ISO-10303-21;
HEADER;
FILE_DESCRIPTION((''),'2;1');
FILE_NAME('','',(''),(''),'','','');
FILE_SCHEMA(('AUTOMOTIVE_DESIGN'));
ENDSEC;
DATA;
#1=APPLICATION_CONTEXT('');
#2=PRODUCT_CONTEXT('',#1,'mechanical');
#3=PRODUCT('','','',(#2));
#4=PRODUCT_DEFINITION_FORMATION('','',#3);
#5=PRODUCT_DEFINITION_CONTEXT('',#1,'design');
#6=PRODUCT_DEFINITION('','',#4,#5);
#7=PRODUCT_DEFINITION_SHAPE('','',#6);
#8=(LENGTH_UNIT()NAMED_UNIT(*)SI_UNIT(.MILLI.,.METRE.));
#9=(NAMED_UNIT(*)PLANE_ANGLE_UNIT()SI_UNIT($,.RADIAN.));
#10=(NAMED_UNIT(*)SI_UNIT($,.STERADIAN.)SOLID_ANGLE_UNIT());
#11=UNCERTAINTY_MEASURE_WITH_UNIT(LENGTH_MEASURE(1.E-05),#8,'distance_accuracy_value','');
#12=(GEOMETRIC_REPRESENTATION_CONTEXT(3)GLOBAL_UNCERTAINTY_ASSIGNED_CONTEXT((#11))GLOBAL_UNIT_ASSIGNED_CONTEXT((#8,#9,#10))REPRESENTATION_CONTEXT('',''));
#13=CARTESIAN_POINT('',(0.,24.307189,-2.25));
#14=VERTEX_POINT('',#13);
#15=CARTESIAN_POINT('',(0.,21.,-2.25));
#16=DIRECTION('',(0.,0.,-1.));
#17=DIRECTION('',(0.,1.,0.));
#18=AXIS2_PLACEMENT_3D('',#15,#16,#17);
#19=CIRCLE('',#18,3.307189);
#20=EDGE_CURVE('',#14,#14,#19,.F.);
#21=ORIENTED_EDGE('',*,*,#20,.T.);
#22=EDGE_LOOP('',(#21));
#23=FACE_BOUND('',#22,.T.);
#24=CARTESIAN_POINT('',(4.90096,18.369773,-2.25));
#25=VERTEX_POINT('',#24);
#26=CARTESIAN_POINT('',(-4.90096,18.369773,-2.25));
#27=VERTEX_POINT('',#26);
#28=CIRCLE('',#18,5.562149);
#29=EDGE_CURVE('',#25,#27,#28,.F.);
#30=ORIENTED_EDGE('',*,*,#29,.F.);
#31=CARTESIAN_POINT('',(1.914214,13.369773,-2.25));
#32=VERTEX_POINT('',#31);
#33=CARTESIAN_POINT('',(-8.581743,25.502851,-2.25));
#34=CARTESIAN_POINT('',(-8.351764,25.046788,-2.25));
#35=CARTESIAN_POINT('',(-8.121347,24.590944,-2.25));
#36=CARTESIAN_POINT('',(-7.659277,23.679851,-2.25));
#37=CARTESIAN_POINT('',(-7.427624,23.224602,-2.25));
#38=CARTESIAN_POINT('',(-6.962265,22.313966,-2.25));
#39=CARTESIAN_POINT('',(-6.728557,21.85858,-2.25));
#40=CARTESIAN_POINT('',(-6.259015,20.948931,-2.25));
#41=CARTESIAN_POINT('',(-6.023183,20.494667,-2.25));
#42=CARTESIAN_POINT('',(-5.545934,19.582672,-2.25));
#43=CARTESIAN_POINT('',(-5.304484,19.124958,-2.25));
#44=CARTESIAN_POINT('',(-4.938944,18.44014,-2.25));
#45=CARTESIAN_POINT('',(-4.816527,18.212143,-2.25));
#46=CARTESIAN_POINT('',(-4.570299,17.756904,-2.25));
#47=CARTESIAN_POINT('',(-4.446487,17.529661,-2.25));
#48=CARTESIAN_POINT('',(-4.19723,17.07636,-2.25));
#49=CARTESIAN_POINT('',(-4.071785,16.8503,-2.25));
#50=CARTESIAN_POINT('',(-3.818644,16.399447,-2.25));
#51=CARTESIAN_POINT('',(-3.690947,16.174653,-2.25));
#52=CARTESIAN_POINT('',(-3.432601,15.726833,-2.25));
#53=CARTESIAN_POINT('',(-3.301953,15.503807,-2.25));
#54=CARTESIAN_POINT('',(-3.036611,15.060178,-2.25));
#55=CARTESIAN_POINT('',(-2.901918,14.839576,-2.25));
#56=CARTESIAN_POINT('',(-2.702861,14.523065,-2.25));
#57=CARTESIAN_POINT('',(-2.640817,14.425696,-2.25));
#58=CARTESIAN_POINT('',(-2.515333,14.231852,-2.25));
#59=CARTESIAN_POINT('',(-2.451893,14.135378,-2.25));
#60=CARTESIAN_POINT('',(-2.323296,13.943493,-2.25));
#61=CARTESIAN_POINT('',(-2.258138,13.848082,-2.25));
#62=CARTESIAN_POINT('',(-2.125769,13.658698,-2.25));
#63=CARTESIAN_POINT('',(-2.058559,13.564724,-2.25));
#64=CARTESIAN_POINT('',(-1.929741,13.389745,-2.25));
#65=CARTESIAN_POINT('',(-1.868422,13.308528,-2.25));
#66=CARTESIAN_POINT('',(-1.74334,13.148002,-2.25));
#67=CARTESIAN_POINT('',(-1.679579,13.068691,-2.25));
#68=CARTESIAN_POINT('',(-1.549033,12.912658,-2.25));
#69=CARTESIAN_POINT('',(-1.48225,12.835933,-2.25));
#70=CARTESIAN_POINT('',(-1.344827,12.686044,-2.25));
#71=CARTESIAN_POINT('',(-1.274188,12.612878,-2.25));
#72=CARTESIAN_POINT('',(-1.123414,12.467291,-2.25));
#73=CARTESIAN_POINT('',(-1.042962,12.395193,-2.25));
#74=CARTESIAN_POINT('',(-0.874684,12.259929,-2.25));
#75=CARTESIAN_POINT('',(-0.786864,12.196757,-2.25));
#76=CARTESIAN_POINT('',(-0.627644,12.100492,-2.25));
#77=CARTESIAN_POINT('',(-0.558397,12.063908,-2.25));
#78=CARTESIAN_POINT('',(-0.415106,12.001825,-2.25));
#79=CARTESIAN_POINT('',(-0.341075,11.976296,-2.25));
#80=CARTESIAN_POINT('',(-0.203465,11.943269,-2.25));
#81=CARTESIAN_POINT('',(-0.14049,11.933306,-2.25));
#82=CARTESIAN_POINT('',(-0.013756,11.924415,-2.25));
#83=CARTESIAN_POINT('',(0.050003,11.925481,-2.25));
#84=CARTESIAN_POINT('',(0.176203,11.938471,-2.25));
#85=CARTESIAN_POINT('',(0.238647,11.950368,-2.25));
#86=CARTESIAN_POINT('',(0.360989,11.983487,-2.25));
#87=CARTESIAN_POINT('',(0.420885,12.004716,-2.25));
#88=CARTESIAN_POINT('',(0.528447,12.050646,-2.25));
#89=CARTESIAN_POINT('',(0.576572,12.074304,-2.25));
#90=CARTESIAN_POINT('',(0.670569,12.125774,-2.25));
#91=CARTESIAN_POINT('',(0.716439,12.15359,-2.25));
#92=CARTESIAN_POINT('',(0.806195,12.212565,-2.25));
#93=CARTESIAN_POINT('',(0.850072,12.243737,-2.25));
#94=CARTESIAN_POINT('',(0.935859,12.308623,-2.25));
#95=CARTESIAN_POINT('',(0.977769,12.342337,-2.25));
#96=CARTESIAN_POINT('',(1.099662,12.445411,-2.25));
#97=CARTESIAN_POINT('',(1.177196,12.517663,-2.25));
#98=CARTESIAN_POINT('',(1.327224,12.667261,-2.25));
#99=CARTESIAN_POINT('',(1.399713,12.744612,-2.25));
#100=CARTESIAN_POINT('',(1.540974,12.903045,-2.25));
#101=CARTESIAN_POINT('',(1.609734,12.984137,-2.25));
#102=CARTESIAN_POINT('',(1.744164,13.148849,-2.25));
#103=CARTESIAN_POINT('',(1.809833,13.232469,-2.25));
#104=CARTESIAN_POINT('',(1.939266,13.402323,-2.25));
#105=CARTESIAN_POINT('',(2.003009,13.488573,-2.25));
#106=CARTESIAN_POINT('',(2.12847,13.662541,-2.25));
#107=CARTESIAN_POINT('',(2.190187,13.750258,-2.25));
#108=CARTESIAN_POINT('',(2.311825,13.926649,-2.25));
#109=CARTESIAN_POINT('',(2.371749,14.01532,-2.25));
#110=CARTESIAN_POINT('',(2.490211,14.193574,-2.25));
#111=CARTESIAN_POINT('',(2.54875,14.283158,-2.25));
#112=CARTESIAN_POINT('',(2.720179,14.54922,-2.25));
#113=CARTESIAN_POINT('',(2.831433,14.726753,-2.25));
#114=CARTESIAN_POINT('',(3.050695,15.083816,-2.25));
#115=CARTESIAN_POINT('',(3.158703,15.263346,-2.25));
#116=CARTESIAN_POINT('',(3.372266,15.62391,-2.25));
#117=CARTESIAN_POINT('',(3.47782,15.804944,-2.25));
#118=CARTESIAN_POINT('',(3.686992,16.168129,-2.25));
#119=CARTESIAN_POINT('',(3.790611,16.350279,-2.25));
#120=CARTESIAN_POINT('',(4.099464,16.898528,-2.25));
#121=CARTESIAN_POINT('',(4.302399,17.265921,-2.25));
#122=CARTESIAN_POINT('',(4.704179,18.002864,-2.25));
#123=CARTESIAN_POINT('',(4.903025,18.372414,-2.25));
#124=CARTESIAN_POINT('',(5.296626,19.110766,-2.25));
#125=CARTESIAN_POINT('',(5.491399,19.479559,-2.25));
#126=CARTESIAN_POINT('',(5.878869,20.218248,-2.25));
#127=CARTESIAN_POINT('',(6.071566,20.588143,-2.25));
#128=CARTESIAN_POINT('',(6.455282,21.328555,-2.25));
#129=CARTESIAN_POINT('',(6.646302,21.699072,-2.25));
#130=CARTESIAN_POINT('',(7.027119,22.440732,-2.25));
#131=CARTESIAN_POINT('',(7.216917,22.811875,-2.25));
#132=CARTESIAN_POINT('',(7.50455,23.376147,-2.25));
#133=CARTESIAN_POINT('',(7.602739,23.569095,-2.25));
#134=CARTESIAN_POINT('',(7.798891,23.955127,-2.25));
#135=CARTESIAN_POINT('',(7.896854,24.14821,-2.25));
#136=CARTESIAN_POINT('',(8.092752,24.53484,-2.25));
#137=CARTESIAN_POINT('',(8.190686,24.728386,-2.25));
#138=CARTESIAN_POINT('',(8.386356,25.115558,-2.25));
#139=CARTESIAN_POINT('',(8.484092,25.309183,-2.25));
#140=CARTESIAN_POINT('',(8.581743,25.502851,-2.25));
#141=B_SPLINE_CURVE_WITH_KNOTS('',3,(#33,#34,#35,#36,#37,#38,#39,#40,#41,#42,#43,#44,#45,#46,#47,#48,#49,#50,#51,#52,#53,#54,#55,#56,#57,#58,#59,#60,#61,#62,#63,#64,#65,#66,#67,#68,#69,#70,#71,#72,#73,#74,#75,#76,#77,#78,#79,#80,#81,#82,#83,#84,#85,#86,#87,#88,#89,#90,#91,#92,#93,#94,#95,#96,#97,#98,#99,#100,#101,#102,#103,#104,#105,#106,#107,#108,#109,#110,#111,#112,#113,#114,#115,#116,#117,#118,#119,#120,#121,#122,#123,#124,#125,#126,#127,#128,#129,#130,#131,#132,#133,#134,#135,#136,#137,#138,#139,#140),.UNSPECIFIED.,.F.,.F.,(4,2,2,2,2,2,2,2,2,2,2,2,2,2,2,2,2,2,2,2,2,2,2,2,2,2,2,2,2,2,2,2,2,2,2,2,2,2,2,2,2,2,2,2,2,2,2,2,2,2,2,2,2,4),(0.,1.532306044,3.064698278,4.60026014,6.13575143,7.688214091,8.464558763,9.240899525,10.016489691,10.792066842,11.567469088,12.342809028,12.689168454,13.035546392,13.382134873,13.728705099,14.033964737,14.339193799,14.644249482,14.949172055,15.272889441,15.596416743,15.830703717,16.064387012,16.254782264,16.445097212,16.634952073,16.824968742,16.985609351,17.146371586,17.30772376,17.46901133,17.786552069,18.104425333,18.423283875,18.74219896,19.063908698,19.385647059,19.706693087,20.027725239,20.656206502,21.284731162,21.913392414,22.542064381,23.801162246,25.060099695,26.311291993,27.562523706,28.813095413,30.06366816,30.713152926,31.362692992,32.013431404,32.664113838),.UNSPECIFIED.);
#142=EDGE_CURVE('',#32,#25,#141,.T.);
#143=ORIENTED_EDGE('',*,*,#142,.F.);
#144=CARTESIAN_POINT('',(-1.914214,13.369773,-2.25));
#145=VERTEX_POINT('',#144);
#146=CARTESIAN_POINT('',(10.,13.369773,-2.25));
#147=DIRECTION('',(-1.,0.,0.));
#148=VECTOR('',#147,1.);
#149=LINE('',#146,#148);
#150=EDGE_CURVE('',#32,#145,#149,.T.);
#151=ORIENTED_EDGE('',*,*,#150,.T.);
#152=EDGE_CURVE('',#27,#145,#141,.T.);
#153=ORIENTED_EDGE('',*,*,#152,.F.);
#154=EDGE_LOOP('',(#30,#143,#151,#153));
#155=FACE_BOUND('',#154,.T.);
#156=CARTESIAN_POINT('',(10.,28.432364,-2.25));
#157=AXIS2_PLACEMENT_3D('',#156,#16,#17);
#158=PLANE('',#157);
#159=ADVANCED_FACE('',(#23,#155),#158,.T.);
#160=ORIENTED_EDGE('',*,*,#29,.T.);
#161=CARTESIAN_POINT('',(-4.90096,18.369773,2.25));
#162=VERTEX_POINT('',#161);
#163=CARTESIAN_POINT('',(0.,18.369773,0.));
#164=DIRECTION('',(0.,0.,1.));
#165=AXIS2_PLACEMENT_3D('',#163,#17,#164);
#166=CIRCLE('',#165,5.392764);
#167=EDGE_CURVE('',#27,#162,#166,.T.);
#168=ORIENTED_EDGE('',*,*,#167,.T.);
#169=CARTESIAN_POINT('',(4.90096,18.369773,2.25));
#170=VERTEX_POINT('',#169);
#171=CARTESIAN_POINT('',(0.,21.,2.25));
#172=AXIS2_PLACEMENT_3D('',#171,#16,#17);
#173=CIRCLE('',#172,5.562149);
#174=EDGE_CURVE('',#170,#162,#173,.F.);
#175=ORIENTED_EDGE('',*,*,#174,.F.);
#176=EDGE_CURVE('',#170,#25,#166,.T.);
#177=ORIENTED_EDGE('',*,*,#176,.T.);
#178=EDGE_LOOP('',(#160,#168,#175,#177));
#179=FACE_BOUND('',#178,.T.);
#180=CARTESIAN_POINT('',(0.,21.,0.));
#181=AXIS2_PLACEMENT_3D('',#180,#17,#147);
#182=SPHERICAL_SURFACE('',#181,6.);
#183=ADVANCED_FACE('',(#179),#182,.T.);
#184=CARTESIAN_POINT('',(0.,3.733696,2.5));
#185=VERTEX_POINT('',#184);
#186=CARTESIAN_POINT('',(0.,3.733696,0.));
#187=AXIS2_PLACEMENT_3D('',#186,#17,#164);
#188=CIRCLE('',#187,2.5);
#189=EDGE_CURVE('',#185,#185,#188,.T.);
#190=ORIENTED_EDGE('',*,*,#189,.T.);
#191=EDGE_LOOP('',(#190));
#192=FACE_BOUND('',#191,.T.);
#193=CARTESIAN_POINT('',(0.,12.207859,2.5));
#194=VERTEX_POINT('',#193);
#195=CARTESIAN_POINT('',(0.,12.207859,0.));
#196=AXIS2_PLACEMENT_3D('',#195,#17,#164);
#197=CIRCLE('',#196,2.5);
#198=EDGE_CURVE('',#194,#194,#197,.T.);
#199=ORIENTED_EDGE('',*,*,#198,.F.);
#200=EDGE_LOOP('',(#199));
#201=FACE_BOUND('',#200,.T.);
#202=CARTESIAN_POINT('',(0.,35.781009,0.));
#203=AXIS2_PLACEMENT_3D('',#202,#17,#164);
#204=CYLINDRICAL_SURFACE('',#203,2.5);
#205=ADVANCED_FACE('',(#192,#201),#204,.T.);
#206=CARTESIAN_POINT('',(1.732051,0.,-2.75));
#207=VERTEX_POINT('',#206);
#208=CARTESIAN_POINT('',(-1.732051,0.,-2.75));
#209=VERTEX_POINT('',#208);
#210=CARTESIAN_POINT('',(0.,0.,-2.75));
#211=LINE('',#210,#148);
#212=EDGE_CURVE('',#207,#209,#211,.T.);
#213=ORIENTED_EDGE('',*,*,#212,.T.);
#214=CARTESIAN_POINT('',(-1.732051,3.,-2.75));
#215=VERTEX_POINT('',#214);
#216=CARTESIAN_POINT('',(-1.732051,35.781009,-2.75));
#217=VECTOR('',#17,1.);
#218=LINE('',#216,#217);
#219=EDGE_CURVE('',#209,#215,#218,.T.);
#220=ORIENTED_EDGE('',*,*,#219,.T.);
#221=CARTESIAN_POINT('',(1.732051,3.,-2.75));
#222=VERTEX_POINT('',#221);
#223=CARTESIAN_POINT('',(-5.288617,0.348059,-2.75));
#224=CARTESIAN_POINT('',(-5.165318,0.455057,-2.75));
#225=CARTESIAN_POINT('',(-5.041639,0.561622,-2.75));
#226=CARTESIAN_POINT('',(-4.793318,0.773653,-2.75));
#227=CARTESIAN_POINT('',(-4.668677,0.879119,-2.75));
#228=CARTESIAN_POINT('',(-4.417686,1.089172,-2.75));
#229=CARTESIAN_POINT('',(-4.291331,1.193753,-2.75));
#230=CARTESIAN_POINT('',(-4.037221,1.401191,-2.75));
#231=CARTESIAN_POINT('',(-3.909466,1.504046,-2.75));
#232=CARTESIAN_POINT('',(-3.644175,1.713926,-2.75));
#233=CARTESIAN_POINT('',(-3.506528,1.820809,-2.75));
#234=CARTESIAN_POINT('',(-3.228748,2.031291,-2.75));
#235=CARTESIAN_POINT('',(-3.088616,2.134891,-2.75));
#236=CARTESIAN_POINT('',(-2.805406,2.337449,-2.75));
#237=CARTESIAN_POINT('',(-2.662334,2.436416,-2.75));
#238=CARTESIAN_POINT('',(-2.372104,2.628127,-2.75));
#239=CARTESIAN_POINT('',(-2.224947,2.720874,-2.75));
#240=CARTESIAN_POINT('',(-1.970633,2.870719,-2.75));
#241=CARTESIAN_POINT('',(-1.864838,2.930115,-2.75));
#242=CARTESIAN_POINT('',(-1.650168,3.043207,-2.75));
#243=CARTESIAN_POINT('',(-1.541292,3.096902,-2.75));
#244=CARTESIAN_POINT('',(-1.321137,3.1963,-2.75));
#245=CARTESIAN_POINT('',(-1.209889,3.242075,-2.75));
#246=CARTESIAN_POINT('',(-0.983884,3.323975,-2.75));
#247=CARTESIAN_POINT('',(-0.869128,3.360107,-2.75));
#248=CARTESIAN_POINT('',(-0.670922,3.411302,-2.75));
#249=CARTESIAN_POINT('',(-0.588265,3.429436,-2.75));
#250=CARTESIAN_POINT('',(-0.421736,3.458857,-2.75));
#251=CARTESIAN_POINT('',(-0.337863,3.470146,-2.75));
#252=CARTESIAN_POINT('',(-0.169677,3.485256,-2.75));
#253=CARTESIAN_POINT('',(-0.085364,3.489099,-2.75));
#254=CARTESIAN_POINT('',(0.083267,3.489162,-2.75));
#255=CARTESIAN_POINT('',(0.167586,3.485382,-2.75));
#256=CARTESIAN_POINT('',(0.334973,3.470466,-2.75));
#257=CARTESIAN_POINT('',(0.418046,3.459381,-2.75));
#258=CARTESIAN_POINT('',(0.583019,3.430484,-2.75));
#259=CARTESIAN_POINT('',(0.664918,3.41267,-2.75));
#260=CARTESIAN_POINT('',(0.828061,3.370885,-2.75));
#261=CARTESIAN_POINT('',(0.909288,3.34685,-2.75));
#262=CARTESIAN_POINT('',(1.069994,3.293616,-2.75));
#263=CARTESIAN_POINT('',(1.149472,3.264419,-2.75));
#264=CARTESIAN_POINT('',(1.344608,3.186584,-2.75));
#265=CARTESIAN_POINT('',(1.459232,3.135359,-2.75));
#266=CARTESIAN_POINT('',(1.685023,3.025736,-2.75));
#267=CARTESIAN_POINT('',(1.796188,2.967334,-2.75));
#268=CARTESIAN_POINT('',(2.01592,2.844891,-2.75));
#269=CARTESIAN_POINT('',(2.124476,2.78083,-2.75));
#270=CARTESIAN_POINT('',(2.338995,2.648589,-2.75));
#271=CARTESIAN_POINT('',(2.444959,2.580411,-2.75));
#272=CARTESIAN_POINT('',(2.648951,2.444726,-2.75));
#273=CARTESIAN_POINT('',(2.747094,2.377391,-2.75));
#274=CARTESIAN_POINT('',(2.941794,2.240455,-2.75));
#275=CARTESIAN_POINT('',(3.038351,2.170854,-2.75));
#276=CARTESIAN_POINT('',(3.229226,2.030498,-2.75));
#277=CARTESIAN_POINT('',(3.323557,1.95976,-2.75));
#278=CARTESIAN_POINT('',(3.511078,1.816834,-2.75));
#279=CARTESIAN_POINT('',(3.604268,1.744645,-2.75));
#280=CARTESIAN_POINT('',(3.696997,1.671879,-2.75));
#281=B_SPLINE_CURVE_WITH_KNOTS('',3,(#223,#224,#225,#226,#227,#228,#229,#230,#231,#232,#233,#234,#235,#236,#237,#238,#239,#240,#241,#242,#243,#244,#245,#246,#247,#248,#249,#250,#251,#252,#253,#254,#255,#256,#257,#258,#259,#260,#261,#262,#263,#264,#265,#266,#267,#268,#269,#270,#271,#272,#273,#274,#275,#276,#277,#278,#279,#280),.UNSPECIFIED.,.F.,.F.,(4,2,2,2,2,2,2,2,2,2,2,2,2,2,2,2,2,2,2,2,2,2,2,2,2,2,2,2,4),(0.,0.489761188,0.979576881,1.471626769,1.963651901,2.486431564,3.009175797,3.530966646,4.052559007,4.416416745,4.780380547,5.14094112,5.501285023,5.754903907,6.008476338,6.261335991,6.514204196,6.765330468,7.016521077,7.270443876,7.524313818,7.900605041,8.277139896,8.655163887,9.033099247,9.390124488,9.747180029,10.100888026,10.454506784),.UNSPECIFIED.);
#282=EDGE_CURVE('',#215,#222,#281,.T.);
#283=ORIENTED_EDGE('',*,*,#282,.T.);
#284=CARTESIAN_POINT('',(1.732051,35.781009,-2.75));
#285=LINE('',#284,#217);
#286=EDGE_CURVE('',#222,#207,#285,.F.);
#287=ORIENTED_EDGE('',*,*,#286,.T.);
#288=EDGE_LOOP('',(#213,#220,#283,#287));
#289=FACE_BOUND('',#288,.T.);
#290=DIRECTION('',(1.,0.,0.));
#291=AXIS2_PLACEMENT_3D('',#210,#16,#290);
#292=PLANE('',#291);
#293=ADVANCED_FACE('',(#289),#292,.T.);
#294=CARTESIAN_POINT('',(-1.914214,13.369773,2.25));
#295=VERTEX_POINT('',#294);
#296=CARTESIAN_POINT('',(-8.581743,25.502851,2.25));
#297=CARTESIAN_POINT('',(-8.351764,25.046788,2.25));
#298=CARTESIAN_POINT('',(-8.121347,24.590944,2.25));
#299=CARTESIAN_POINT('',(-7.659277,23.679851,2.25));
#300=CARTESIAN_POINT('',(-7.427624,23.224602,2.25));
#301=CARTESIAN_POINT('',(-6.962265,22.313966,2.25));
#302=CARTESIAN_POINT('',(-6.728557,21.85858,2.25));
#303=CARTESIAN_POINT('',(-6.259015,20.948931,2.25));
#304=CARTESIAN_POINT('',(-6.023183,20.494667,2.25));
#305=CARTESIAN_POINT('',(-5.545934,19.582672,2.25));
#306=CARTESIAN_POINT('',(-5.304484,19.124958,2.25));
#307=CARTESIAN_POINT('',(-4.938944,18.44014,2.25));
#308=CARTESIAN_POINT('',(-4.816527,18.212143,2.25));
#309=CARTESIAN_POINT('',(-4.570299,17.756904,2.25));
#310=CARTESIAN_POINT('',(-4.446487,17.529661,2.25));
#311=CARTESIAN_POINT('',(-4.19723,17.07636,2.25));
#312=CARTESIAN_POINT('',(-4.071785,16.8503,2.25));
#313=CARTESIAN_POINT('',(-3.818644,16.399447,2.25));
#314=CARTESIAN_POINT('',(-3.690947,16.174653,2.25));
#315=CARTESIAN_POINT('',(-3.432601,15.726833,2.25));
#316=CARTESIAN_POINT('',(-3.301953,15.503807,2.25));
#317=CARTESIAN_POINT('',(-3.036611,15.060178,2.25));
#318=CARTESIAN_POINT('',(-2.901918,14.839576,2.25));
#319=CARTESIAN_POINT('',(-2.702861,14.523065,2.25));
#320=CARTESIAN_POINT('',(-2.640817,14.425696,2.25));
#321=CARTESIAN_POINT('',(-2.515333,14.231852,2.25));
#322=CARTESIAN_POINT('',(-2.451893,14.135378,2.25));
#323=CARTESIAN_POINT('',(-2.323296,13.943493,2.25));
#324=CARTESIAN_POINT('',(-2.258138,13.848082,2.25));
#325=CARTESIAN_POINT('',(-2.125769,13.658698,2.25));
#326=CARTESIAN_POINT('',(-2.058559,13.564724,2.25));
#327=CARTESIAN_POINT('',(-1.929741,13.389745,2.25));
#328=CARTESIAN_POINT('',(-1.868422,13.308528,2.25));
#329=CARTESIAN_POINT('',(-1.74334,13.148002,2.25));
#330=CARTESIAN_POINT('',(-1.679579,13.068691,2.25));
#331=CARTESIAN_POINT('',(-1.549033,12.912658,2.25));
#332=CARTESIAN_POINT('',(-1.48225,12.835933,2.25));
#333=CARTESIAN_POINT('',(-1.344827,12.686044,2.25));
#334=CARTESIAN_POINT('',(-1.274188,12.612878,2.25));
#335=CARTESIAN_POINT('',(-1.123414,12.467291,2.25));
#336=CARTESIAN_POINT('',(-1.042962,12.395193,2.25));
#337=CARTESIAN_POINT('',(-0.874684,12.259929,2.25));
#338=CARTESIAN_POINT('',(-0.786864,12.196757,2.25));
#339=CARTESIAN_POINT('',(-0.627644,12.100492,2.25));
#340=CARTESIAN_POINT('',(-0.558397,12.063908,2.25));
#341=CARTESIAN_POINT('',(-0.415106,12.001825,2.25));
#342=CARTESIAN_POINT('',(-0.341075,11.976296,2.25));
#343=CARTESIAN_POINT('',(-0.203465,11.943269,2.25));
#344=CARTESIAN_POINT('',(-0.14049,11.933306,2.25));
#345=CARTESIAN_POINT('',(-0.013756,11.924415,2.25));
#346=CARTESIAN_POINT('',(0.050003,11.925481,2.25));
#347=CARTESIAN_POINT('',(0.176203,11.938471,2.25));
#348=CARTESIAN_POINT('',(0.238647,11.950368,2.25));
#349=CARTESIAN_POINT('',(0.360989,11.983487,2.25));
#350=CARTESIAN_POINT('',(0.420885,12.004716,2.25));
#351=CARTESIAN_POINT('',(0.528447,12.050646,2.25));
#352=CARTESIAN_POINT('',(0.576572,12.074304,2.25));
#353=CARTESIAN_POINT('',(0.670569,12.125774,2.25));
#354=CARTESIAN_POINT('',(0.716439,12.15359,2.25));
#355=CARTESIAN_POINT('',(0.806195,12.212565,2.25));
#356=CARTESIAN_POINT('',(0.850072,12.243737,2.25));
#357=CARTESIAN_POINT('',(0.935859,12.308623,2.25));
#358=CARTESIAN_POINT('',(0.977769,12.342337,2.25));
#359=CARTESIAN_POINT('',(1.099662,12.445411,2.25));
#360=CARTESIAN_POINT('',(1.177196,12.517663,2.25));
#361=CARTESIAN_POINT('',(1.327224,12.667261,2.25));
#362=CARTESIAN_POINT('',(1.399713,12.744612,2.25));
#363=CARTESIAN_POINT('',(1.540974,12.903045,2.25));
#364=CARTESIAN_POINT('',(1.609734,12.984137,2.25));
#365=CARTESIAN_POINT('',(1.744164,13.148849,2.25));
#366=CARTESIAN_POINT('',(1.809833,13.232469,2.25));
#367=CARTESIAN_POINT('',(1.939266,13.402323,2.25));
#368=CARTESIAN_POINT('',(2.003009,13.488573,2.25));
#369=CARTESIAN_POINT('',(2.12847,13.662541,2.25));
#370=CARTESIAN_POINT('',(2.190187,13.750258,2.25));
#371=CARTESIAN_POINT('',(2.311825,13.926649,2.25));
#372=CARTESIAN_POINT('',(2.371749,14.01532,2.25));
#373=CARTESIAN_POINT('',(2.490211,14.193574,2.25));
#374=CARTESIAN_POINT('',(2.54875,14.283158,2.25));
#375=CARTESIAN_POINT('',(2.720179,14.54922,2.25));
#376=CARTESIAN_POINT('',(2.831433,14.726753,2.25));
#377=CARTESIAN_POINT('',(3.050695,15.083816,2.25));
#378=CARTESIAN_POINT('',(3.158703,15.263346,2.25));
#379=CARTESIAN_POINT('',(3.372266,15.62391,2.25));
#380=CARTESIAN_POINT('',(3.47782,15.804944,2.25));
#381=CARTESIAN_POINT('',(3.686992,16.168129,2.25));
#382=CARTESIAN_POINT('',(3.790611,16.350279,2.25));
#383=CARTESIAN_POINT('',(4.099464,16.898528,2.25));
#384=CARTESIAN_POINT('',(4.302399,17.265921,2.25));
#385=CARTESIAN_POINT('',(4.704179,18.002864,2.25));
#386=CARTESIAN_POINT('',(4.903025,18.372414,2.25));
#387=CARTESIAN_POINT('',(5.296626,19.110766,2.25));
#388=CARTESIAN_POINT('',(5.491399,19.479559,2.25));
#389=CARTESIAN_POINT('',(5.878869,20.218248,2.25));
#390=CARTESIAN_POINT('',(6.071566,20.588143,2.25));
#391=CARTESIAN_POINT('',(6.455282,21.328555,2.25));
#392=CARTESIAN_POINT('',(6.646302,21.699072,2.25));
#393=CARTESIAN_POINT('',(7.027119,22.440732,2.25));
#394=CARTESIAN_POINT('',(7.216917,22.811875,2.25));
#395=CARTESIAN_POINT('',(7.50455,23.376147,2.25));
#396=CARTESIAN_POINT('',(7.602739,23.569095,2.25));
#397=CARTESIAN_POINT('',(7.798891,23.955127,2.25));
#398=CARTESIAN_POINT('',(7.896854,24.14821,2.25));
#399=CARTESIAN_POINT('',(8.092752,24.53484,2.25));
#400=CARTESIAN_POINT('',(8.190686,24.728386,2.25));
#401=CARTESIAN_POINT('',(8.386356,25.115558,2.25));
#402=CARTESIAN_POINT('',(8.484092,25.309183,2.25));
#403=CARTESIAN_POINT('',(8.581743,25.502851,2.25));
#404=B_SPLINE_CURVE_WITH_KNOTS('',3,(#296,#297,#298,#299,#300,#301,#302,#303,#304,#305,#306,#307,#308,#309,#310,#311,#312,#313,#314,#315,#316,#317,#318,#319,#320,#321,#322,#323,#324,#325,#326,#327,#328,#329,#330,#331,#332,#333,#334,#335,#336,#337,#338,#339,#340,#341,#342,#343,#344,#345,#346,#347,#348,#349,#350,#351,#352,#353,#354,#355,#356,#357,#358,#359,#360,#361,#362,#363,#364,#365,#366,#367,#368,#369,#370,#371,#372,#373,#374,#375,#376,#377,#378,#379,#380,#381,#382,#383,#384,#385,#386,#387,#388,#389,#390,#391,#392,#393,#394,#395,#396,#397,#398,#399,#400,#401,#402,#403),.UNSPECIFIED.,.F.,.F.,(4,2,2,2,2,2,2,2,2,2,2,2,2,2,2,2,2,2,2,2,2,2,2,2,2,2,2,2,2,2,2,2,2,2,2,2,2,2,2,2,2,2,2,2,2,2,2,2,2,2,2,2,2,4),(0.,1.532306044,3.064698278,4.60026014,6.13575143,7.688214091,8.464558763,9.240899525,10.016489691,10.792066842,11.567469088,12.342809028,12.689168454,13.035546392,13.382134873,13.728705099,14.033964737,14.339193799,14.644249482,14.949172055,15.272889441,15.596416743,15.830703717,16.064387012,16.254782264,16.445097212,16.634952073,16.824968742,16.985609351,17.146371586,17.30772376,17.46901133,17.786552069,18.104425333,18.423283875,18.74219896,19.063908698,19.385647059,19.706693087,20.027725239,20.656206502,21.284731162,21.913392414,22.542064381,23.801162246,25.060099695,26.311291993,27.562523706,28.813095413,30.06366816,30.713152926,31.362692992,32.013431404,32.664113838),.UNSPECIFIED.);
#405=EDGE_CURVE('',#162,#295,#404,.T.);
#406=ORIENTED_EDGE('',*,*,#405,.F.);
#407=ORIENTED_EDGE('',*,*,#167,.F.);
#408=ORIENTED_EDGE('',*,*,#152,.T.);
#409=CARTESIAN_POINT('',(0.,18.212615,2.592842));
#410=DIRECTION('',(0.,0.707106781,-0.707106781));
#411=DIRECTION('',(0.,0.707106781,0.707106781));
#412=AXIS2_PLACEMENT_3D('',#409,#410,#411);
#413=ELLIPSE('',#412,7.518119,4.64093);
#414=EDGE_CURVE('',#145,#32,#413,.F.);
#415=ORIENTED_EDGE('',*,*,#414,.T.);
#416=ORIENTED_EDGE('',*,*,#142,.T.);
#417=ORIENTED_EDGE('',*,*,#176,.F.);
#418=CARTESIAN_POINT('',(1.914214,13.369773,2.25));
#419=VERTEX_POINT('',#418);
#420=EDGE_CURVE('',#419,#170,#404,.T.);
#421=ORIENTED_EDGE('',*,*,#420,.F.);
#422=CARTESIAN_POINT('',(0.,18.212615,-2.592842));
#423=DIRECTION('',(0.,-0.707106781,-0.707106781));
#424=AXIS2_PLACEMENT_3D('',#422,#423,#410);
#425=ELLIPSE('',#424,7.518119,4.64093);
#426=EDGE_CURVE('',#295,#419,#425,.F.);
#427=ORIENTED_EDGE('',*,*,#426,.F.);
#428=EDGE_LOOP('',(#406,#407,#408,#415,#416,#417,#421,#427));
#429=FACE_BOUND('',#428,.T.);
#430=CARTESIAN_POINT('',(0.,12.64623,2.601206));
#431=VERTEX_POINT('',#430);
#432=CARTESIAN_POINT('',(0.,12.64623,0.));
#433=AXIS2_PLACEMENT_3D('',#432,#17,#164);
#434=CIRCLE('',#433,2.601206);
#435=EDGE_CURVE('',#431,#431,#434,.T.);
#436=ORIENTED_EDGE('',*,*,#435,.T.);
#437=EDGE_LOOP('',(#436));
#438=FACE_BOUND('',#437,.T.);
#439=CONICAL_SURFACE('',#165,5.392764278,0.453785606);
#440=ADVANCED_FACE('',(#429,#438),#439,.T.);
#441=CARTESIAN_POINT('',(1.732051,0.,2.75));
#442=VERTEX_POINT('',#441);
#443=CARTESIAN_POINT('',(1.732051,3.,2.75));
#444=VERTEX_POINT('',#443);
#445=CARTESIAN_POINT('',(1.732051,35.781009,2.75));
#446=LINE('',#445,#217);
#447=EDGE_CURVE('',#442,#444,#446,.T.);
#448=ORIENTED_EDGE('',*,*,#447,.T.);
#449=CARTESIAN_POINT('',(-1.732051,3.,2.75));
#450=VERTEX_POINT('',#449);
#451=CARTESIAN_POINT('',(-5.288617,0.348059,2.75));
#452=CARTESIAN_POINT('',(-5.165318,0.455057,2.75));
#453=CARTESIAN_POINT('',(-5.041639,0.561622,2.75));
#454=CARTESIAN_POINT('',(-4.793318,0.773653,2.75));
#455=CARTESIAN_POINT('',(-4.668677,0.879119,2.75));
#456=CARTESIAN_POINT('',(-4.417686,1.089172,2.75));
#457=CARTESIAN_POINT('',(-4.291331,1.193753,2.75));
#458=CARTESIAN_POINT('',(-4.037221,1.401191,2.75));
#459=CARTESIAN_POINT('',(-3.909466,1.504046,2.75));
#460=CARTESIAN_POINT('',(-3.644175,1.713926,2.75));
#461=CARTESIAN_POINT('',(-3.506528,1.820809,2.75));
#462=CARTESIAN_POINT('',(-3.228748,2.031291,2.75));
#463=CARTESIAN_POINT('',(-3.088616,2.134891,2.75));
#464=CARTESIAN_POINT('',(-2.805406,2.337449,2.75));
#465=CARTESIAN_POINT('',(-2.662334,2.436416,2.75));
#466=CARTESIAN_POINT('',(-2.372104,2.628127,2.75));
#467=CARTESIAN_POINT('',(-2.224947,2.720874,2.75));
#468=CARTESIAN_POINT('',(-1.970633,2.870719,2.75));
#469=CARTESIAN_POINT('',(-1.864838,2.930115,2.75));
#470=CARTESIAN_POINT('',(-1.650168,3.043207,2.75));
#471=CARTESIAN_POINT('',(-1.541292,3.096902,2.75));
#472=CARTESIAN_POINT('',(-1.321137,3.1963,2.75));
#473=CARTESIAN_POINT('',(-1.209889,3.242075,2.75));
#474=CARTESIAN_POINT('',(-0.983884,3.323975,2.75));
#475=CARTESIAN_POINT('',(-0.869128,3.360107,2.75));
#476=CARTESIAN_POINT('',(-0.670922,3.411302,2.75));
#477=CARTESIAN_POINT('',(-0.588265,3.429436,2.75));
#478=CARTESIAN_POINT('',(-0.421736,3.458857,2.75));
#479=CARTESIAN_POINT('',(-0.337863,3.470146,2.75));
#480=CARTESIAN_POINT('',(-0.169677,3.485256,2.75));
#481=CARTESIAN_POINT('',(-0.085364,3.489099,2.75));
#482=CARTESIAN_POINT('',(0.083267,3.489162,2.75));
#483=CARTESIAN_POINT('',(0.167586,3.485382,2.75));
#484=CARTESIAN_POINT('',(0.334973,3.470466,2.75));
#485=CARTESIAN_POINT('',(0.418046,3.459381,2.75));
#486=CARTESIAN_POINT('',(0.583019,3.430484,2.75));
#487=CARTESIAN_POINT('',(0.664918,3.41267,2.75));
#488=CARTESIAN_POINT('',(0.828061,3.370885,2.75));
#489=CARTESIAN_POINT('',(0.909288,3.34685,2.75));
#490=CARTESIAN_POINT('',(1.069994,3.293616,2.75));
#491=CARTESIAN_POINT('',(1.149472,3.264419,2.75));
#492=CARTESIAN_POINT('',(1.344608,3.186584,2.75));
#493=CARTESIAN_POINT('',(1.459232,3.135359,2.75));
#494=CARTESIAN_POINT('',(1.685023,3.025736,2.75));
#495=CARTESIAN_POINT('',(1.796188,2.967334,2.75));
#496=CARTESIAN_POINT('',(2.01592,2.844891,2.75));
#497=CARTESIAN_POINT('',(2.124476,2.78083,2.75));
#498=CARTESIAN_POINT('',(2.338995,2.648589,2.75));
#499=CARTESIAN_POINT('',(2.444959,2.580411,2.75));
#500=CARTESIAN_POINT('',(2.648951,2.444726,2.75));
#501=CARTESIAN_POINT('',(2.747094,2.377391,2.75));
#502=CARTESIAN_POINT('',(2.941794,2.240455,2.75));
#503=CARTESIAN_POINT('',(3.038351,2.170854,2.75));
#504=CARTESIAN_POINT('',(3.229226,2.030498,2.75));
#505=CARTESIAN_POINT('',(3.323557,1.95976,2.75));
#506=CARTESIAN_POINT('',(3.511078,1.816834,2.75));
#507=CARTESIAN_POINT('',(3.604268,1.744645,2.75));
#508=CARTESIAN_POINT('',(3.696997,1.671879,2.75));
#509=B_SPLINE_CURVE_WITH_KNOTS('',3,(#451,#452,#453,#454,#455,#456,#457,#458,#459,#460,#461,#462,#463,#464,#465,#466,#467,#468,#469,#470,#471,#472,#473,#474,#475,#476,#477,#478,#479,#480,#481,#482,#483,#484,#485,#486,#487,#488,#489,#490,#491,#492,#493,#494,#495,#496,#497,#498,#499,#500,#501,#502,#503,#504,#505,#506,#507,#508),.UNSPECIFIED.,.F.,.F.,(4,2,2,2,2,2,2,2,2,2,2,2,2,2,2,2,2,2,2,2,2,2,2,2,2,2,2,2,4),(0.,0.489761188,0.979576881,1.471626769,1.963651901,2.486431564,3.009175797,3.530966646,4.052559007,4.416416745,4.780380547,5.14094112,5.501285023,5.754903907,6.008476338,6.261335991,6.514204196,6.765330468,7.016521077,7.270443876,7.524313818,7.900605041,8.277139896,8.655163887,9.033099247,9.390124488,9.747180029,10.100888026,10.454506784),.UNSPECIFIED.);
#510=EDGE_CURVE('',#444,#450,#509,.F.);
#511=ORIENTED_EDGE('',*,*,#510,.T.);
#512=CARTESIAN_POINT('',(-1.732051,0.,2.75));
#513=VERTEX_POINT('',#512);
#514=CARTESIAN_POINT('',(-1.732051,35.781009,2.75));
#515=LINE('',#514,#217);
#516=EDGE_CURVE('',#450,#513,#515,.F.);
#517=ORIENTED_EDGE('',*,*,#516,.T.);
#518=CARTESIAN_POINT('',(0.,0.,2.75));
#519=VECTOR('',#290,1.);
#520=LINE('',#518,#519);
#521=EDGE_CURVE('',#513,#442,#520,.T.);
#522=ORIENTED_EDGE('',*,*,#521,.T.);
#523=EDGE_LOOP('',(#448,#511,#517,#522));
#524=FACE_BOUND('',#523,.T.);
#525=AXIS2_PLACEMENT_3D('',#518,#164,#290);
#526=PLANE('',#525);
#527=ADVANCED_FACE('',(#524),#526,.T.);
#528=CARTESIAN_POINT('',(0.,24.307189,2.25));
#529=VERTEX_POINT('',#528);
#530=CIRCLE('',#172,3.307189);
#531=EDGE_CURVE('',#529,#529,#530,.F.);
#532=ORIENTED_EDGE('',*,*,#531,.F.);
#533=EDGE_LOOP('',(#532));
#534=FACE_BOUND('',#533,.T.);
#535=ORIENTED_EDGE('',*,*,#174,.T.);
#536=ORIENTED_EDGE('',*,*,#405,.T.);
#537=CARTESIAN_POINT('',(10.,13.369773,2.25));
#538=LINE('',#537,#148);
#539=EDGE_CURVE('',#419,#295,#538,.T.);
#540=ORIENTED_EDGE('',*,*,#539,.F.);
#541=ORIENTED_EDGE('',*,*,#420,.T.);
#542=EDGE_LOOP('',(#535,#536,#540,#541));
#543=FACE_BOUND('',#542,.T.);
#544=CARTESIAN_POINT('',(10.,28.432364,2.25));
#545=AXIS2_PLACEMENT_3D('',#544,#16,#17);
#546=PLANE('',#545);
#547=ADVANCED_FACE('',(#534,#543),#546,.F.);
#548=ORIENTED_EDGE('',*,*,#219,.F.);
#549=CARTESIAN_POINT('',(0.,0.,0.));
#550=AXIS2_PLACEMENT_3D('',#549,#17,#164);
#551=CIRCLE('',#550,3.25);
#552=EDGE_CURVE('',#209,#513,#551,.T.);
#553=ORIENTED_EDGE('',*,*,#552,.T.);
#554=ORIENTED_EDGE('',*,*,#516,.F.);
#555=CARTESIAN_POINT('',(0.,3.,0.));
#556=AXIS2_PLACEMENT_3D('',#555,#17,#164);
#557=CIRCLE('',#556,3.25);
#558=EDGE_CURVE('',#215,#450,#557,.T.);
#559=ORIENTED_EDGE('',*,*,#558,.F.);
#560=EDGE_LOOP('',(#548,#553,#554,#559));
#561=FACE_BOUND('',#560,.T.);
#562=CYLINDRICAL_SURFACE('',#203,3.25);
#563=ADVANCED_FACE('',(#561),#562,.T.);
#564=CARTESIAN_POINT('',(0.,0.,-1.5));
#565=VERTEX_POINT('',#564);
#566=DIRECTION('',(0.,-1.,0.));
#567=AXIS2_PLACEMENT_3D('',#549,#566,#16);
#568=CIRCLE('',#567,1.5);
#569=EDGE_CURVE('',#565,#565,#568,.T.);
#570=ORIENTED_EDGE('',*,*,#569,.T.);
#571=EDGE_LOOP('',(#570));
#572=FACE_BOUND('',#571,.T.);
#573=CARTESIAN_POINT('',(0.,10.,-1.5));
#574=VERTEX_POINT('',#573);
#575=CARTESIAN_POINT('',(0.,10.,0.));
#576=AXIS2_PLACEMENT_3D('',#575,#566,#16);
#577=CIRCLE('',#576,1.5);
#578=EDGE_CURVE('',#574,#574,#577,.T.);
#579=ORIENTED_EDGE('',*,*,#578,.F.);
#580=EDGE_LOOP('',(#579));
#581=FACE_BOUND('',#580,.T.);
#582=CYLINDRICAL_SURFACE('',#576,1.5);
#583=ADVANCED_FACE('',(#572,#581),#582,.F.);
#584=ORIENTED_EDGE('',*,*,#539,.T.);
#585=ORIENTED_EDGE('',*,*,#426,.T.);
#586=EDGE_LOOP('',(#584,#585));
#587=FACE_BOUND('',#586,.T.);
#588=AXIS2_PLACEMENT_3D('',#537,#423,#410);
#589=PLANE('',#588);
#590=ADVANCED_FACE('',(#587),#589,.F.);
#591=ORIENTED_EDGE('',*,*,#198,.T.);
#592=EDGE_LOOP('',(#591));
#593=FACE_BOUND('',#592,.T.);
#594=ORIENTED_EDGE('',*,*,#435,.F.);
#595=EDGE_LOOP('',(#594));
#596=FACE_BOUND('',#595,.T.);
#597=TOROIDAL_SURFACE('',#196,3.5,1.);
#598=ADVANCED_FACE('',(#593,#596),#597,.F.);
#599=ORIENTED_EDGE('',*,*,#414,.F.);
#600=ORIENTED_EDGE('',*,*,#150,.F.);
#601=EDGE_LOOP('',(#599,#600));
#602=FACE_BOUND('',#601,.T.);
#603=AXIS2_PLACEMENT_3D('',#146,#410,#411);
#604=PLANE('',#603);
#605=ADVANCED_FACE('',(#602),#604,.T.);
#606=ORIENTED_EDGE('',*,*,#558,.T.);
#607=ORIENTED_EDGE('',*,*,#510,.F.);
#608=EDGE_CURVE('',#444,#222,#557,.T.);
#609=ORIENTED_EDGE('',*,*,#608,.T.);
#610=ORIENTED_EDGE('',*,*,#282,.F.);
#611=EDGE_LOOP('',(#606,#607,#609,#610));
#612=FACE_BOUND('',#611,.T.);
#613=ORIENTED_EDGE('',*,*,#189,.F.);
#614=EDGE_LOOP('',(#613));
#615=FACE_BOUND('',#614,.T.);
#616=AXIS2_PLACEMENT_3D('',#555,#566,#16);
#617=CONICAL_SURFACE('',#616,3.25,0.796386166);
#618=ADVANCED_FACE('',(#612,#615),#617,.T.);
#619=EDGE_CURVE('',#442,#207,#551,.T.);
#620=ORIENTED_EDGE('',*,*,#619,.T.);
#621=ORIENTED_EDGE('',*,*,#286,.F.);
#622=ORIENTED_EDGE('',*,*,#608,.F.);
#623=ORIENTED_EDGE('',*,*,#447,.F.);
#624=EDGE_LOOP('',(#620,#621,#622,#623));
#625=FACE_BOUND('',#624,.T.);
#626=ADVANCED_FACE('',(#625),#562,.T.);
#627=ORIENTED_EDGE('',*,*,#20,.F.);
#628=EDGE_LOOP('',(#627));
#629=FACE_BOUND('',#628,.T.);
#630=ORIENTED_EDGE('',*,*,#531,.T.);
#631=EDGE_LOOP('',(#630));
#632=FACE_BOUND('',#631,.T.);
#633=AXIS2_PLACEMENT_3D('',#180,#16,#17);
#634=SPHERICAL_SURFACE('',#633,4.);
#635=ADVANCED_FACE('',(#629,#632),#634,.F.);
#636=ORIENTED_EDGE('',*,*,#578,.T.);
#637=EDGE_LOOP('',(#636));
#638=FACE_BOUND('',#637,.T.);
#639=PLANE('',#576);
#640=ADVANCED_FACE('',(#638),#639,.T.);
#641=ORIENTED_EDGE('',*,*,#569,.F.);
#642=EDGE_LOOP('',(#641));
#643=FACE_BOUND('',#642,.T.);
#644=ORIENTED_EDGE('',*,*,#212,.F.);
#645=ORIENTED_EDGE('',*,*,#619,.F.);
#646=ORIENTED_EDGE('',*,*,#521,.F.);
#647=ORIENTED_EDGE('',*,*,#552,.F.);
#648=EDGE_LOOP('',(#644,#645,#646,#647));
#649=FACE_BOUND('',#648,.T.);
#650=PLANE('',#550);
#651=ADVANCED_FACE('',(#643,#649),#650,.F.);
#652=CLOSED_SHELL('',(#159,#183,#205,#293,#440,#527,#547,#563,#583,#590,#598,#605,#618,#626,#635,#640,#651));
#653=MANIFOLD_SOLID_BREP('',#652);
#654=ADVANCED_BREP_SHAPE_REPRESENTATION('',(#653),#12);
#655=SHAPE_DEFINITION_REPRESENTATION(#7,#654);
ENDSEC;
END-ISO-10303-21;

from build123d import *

# Parameters (mm, degrees)
SKETCH_5_R          = 1.5
CUT_EXTRUDE_2_DEPTH = 10
CUT_EXTRUDE_3_DEPTH = 10
SKETCH_7_W          = 6.5
SKETCH_7_H          = 3.804727479
CUT_EXTRUDE_4_DEPTH = 29.301943396


with BuildPart() as part:
    # 草图2 → 旋转3 (revolve)
    with BuildSketch(Plane.XY):
        with BuildLine():
            Line((0, 0), (0, 27))
            ThreePointArc((0, 27), (-5.088288577, 24.179515585), (-5.392764278, 18.369773119))
            Line((-5.392764278, 18.369773119), (-2.601205954, 12.646230363))
            ThreePointArc((-2.601205954, 12.646230363), (-2.525629935, 12.432810271), (-2.5, 12.207859217))
            Line((-2.5, 12.207859217), (-2.5, 3.733696482))
            Line((-2.5, 3.733696482), (-3.25, 3))
            Line((-3.25, 3), (-3.25, 0))
            Line((-3.25, 0), (0, 0))
        make_face()
    revolve(axis=Axis((0, 35.781008953, 0), (0, -1, 0)))

    # 草图3 → 切除-旋转1 (revolve, cut)
    with BuildSketch(Plane(origin=(0, 0, 0), x_dir=(0, 0, -1), z_dir=(1, 0, 0))):
        with BuildLine():
            Line((0, 25), (0, 17))
            ThreePointArc((0, 17), (-4, 21), (0, 25))
        make_face()
    revolve(axis=Axis((0, 25, 0), (0, -1, 0)), mode=Mode.SUBTRACT)

    # 草图5 → 切除-拉伸2 (cut)
    with BuildSketch(Plane.XZ):
        Circle(SKETCH_5_R)
    extrude(amount=-CUT_EXTRUDE_2_DEPTH, mode=Mode.SUBTRACT)

    # 草图6 → 切除-拉伸3 (cut, symmetric)
    with BuildSketch(Plane(origin=(0, 0, 0), x_dir=(0, 0, -1), z_dir=(1, 0, 0))):
        Polygon((2.25, 28.432363899), (2.25, 13.369773119), (10.25, 5.369773119), (10.25, 28.432363899), align=None)
    cut_extrude_3 = extrude(amount=CUT_EXTRUDE_3_DEPTH, both=True, mode=Mode.SUBTRACT)

    # 镜向1: 切除-拉伸3 across plane
    add(cut_extrude_3.mirror(Plane.XY), mode=Mode.SUBTRACT)

    # 草图7 → 切除-拉伸4 (cut, through all)
    with BuildSketch(Plane.XY.offset(2.75)):
        with Locations((0, 1.90236374)):
            Rectangle(SKETCH_7_W, SKETCH_7_H)
    cut_extrude_4 = extrude(amount=CUT_EXTRUDE_4_DEPTH, mode=Mode.SUBTRACT)

    # 镜向2: 切除-拉伸4 across plane
    add(cut_extrude_4.mirror(Plane.XY), mode=Mode.SUBTRACT)


solid = part.part
